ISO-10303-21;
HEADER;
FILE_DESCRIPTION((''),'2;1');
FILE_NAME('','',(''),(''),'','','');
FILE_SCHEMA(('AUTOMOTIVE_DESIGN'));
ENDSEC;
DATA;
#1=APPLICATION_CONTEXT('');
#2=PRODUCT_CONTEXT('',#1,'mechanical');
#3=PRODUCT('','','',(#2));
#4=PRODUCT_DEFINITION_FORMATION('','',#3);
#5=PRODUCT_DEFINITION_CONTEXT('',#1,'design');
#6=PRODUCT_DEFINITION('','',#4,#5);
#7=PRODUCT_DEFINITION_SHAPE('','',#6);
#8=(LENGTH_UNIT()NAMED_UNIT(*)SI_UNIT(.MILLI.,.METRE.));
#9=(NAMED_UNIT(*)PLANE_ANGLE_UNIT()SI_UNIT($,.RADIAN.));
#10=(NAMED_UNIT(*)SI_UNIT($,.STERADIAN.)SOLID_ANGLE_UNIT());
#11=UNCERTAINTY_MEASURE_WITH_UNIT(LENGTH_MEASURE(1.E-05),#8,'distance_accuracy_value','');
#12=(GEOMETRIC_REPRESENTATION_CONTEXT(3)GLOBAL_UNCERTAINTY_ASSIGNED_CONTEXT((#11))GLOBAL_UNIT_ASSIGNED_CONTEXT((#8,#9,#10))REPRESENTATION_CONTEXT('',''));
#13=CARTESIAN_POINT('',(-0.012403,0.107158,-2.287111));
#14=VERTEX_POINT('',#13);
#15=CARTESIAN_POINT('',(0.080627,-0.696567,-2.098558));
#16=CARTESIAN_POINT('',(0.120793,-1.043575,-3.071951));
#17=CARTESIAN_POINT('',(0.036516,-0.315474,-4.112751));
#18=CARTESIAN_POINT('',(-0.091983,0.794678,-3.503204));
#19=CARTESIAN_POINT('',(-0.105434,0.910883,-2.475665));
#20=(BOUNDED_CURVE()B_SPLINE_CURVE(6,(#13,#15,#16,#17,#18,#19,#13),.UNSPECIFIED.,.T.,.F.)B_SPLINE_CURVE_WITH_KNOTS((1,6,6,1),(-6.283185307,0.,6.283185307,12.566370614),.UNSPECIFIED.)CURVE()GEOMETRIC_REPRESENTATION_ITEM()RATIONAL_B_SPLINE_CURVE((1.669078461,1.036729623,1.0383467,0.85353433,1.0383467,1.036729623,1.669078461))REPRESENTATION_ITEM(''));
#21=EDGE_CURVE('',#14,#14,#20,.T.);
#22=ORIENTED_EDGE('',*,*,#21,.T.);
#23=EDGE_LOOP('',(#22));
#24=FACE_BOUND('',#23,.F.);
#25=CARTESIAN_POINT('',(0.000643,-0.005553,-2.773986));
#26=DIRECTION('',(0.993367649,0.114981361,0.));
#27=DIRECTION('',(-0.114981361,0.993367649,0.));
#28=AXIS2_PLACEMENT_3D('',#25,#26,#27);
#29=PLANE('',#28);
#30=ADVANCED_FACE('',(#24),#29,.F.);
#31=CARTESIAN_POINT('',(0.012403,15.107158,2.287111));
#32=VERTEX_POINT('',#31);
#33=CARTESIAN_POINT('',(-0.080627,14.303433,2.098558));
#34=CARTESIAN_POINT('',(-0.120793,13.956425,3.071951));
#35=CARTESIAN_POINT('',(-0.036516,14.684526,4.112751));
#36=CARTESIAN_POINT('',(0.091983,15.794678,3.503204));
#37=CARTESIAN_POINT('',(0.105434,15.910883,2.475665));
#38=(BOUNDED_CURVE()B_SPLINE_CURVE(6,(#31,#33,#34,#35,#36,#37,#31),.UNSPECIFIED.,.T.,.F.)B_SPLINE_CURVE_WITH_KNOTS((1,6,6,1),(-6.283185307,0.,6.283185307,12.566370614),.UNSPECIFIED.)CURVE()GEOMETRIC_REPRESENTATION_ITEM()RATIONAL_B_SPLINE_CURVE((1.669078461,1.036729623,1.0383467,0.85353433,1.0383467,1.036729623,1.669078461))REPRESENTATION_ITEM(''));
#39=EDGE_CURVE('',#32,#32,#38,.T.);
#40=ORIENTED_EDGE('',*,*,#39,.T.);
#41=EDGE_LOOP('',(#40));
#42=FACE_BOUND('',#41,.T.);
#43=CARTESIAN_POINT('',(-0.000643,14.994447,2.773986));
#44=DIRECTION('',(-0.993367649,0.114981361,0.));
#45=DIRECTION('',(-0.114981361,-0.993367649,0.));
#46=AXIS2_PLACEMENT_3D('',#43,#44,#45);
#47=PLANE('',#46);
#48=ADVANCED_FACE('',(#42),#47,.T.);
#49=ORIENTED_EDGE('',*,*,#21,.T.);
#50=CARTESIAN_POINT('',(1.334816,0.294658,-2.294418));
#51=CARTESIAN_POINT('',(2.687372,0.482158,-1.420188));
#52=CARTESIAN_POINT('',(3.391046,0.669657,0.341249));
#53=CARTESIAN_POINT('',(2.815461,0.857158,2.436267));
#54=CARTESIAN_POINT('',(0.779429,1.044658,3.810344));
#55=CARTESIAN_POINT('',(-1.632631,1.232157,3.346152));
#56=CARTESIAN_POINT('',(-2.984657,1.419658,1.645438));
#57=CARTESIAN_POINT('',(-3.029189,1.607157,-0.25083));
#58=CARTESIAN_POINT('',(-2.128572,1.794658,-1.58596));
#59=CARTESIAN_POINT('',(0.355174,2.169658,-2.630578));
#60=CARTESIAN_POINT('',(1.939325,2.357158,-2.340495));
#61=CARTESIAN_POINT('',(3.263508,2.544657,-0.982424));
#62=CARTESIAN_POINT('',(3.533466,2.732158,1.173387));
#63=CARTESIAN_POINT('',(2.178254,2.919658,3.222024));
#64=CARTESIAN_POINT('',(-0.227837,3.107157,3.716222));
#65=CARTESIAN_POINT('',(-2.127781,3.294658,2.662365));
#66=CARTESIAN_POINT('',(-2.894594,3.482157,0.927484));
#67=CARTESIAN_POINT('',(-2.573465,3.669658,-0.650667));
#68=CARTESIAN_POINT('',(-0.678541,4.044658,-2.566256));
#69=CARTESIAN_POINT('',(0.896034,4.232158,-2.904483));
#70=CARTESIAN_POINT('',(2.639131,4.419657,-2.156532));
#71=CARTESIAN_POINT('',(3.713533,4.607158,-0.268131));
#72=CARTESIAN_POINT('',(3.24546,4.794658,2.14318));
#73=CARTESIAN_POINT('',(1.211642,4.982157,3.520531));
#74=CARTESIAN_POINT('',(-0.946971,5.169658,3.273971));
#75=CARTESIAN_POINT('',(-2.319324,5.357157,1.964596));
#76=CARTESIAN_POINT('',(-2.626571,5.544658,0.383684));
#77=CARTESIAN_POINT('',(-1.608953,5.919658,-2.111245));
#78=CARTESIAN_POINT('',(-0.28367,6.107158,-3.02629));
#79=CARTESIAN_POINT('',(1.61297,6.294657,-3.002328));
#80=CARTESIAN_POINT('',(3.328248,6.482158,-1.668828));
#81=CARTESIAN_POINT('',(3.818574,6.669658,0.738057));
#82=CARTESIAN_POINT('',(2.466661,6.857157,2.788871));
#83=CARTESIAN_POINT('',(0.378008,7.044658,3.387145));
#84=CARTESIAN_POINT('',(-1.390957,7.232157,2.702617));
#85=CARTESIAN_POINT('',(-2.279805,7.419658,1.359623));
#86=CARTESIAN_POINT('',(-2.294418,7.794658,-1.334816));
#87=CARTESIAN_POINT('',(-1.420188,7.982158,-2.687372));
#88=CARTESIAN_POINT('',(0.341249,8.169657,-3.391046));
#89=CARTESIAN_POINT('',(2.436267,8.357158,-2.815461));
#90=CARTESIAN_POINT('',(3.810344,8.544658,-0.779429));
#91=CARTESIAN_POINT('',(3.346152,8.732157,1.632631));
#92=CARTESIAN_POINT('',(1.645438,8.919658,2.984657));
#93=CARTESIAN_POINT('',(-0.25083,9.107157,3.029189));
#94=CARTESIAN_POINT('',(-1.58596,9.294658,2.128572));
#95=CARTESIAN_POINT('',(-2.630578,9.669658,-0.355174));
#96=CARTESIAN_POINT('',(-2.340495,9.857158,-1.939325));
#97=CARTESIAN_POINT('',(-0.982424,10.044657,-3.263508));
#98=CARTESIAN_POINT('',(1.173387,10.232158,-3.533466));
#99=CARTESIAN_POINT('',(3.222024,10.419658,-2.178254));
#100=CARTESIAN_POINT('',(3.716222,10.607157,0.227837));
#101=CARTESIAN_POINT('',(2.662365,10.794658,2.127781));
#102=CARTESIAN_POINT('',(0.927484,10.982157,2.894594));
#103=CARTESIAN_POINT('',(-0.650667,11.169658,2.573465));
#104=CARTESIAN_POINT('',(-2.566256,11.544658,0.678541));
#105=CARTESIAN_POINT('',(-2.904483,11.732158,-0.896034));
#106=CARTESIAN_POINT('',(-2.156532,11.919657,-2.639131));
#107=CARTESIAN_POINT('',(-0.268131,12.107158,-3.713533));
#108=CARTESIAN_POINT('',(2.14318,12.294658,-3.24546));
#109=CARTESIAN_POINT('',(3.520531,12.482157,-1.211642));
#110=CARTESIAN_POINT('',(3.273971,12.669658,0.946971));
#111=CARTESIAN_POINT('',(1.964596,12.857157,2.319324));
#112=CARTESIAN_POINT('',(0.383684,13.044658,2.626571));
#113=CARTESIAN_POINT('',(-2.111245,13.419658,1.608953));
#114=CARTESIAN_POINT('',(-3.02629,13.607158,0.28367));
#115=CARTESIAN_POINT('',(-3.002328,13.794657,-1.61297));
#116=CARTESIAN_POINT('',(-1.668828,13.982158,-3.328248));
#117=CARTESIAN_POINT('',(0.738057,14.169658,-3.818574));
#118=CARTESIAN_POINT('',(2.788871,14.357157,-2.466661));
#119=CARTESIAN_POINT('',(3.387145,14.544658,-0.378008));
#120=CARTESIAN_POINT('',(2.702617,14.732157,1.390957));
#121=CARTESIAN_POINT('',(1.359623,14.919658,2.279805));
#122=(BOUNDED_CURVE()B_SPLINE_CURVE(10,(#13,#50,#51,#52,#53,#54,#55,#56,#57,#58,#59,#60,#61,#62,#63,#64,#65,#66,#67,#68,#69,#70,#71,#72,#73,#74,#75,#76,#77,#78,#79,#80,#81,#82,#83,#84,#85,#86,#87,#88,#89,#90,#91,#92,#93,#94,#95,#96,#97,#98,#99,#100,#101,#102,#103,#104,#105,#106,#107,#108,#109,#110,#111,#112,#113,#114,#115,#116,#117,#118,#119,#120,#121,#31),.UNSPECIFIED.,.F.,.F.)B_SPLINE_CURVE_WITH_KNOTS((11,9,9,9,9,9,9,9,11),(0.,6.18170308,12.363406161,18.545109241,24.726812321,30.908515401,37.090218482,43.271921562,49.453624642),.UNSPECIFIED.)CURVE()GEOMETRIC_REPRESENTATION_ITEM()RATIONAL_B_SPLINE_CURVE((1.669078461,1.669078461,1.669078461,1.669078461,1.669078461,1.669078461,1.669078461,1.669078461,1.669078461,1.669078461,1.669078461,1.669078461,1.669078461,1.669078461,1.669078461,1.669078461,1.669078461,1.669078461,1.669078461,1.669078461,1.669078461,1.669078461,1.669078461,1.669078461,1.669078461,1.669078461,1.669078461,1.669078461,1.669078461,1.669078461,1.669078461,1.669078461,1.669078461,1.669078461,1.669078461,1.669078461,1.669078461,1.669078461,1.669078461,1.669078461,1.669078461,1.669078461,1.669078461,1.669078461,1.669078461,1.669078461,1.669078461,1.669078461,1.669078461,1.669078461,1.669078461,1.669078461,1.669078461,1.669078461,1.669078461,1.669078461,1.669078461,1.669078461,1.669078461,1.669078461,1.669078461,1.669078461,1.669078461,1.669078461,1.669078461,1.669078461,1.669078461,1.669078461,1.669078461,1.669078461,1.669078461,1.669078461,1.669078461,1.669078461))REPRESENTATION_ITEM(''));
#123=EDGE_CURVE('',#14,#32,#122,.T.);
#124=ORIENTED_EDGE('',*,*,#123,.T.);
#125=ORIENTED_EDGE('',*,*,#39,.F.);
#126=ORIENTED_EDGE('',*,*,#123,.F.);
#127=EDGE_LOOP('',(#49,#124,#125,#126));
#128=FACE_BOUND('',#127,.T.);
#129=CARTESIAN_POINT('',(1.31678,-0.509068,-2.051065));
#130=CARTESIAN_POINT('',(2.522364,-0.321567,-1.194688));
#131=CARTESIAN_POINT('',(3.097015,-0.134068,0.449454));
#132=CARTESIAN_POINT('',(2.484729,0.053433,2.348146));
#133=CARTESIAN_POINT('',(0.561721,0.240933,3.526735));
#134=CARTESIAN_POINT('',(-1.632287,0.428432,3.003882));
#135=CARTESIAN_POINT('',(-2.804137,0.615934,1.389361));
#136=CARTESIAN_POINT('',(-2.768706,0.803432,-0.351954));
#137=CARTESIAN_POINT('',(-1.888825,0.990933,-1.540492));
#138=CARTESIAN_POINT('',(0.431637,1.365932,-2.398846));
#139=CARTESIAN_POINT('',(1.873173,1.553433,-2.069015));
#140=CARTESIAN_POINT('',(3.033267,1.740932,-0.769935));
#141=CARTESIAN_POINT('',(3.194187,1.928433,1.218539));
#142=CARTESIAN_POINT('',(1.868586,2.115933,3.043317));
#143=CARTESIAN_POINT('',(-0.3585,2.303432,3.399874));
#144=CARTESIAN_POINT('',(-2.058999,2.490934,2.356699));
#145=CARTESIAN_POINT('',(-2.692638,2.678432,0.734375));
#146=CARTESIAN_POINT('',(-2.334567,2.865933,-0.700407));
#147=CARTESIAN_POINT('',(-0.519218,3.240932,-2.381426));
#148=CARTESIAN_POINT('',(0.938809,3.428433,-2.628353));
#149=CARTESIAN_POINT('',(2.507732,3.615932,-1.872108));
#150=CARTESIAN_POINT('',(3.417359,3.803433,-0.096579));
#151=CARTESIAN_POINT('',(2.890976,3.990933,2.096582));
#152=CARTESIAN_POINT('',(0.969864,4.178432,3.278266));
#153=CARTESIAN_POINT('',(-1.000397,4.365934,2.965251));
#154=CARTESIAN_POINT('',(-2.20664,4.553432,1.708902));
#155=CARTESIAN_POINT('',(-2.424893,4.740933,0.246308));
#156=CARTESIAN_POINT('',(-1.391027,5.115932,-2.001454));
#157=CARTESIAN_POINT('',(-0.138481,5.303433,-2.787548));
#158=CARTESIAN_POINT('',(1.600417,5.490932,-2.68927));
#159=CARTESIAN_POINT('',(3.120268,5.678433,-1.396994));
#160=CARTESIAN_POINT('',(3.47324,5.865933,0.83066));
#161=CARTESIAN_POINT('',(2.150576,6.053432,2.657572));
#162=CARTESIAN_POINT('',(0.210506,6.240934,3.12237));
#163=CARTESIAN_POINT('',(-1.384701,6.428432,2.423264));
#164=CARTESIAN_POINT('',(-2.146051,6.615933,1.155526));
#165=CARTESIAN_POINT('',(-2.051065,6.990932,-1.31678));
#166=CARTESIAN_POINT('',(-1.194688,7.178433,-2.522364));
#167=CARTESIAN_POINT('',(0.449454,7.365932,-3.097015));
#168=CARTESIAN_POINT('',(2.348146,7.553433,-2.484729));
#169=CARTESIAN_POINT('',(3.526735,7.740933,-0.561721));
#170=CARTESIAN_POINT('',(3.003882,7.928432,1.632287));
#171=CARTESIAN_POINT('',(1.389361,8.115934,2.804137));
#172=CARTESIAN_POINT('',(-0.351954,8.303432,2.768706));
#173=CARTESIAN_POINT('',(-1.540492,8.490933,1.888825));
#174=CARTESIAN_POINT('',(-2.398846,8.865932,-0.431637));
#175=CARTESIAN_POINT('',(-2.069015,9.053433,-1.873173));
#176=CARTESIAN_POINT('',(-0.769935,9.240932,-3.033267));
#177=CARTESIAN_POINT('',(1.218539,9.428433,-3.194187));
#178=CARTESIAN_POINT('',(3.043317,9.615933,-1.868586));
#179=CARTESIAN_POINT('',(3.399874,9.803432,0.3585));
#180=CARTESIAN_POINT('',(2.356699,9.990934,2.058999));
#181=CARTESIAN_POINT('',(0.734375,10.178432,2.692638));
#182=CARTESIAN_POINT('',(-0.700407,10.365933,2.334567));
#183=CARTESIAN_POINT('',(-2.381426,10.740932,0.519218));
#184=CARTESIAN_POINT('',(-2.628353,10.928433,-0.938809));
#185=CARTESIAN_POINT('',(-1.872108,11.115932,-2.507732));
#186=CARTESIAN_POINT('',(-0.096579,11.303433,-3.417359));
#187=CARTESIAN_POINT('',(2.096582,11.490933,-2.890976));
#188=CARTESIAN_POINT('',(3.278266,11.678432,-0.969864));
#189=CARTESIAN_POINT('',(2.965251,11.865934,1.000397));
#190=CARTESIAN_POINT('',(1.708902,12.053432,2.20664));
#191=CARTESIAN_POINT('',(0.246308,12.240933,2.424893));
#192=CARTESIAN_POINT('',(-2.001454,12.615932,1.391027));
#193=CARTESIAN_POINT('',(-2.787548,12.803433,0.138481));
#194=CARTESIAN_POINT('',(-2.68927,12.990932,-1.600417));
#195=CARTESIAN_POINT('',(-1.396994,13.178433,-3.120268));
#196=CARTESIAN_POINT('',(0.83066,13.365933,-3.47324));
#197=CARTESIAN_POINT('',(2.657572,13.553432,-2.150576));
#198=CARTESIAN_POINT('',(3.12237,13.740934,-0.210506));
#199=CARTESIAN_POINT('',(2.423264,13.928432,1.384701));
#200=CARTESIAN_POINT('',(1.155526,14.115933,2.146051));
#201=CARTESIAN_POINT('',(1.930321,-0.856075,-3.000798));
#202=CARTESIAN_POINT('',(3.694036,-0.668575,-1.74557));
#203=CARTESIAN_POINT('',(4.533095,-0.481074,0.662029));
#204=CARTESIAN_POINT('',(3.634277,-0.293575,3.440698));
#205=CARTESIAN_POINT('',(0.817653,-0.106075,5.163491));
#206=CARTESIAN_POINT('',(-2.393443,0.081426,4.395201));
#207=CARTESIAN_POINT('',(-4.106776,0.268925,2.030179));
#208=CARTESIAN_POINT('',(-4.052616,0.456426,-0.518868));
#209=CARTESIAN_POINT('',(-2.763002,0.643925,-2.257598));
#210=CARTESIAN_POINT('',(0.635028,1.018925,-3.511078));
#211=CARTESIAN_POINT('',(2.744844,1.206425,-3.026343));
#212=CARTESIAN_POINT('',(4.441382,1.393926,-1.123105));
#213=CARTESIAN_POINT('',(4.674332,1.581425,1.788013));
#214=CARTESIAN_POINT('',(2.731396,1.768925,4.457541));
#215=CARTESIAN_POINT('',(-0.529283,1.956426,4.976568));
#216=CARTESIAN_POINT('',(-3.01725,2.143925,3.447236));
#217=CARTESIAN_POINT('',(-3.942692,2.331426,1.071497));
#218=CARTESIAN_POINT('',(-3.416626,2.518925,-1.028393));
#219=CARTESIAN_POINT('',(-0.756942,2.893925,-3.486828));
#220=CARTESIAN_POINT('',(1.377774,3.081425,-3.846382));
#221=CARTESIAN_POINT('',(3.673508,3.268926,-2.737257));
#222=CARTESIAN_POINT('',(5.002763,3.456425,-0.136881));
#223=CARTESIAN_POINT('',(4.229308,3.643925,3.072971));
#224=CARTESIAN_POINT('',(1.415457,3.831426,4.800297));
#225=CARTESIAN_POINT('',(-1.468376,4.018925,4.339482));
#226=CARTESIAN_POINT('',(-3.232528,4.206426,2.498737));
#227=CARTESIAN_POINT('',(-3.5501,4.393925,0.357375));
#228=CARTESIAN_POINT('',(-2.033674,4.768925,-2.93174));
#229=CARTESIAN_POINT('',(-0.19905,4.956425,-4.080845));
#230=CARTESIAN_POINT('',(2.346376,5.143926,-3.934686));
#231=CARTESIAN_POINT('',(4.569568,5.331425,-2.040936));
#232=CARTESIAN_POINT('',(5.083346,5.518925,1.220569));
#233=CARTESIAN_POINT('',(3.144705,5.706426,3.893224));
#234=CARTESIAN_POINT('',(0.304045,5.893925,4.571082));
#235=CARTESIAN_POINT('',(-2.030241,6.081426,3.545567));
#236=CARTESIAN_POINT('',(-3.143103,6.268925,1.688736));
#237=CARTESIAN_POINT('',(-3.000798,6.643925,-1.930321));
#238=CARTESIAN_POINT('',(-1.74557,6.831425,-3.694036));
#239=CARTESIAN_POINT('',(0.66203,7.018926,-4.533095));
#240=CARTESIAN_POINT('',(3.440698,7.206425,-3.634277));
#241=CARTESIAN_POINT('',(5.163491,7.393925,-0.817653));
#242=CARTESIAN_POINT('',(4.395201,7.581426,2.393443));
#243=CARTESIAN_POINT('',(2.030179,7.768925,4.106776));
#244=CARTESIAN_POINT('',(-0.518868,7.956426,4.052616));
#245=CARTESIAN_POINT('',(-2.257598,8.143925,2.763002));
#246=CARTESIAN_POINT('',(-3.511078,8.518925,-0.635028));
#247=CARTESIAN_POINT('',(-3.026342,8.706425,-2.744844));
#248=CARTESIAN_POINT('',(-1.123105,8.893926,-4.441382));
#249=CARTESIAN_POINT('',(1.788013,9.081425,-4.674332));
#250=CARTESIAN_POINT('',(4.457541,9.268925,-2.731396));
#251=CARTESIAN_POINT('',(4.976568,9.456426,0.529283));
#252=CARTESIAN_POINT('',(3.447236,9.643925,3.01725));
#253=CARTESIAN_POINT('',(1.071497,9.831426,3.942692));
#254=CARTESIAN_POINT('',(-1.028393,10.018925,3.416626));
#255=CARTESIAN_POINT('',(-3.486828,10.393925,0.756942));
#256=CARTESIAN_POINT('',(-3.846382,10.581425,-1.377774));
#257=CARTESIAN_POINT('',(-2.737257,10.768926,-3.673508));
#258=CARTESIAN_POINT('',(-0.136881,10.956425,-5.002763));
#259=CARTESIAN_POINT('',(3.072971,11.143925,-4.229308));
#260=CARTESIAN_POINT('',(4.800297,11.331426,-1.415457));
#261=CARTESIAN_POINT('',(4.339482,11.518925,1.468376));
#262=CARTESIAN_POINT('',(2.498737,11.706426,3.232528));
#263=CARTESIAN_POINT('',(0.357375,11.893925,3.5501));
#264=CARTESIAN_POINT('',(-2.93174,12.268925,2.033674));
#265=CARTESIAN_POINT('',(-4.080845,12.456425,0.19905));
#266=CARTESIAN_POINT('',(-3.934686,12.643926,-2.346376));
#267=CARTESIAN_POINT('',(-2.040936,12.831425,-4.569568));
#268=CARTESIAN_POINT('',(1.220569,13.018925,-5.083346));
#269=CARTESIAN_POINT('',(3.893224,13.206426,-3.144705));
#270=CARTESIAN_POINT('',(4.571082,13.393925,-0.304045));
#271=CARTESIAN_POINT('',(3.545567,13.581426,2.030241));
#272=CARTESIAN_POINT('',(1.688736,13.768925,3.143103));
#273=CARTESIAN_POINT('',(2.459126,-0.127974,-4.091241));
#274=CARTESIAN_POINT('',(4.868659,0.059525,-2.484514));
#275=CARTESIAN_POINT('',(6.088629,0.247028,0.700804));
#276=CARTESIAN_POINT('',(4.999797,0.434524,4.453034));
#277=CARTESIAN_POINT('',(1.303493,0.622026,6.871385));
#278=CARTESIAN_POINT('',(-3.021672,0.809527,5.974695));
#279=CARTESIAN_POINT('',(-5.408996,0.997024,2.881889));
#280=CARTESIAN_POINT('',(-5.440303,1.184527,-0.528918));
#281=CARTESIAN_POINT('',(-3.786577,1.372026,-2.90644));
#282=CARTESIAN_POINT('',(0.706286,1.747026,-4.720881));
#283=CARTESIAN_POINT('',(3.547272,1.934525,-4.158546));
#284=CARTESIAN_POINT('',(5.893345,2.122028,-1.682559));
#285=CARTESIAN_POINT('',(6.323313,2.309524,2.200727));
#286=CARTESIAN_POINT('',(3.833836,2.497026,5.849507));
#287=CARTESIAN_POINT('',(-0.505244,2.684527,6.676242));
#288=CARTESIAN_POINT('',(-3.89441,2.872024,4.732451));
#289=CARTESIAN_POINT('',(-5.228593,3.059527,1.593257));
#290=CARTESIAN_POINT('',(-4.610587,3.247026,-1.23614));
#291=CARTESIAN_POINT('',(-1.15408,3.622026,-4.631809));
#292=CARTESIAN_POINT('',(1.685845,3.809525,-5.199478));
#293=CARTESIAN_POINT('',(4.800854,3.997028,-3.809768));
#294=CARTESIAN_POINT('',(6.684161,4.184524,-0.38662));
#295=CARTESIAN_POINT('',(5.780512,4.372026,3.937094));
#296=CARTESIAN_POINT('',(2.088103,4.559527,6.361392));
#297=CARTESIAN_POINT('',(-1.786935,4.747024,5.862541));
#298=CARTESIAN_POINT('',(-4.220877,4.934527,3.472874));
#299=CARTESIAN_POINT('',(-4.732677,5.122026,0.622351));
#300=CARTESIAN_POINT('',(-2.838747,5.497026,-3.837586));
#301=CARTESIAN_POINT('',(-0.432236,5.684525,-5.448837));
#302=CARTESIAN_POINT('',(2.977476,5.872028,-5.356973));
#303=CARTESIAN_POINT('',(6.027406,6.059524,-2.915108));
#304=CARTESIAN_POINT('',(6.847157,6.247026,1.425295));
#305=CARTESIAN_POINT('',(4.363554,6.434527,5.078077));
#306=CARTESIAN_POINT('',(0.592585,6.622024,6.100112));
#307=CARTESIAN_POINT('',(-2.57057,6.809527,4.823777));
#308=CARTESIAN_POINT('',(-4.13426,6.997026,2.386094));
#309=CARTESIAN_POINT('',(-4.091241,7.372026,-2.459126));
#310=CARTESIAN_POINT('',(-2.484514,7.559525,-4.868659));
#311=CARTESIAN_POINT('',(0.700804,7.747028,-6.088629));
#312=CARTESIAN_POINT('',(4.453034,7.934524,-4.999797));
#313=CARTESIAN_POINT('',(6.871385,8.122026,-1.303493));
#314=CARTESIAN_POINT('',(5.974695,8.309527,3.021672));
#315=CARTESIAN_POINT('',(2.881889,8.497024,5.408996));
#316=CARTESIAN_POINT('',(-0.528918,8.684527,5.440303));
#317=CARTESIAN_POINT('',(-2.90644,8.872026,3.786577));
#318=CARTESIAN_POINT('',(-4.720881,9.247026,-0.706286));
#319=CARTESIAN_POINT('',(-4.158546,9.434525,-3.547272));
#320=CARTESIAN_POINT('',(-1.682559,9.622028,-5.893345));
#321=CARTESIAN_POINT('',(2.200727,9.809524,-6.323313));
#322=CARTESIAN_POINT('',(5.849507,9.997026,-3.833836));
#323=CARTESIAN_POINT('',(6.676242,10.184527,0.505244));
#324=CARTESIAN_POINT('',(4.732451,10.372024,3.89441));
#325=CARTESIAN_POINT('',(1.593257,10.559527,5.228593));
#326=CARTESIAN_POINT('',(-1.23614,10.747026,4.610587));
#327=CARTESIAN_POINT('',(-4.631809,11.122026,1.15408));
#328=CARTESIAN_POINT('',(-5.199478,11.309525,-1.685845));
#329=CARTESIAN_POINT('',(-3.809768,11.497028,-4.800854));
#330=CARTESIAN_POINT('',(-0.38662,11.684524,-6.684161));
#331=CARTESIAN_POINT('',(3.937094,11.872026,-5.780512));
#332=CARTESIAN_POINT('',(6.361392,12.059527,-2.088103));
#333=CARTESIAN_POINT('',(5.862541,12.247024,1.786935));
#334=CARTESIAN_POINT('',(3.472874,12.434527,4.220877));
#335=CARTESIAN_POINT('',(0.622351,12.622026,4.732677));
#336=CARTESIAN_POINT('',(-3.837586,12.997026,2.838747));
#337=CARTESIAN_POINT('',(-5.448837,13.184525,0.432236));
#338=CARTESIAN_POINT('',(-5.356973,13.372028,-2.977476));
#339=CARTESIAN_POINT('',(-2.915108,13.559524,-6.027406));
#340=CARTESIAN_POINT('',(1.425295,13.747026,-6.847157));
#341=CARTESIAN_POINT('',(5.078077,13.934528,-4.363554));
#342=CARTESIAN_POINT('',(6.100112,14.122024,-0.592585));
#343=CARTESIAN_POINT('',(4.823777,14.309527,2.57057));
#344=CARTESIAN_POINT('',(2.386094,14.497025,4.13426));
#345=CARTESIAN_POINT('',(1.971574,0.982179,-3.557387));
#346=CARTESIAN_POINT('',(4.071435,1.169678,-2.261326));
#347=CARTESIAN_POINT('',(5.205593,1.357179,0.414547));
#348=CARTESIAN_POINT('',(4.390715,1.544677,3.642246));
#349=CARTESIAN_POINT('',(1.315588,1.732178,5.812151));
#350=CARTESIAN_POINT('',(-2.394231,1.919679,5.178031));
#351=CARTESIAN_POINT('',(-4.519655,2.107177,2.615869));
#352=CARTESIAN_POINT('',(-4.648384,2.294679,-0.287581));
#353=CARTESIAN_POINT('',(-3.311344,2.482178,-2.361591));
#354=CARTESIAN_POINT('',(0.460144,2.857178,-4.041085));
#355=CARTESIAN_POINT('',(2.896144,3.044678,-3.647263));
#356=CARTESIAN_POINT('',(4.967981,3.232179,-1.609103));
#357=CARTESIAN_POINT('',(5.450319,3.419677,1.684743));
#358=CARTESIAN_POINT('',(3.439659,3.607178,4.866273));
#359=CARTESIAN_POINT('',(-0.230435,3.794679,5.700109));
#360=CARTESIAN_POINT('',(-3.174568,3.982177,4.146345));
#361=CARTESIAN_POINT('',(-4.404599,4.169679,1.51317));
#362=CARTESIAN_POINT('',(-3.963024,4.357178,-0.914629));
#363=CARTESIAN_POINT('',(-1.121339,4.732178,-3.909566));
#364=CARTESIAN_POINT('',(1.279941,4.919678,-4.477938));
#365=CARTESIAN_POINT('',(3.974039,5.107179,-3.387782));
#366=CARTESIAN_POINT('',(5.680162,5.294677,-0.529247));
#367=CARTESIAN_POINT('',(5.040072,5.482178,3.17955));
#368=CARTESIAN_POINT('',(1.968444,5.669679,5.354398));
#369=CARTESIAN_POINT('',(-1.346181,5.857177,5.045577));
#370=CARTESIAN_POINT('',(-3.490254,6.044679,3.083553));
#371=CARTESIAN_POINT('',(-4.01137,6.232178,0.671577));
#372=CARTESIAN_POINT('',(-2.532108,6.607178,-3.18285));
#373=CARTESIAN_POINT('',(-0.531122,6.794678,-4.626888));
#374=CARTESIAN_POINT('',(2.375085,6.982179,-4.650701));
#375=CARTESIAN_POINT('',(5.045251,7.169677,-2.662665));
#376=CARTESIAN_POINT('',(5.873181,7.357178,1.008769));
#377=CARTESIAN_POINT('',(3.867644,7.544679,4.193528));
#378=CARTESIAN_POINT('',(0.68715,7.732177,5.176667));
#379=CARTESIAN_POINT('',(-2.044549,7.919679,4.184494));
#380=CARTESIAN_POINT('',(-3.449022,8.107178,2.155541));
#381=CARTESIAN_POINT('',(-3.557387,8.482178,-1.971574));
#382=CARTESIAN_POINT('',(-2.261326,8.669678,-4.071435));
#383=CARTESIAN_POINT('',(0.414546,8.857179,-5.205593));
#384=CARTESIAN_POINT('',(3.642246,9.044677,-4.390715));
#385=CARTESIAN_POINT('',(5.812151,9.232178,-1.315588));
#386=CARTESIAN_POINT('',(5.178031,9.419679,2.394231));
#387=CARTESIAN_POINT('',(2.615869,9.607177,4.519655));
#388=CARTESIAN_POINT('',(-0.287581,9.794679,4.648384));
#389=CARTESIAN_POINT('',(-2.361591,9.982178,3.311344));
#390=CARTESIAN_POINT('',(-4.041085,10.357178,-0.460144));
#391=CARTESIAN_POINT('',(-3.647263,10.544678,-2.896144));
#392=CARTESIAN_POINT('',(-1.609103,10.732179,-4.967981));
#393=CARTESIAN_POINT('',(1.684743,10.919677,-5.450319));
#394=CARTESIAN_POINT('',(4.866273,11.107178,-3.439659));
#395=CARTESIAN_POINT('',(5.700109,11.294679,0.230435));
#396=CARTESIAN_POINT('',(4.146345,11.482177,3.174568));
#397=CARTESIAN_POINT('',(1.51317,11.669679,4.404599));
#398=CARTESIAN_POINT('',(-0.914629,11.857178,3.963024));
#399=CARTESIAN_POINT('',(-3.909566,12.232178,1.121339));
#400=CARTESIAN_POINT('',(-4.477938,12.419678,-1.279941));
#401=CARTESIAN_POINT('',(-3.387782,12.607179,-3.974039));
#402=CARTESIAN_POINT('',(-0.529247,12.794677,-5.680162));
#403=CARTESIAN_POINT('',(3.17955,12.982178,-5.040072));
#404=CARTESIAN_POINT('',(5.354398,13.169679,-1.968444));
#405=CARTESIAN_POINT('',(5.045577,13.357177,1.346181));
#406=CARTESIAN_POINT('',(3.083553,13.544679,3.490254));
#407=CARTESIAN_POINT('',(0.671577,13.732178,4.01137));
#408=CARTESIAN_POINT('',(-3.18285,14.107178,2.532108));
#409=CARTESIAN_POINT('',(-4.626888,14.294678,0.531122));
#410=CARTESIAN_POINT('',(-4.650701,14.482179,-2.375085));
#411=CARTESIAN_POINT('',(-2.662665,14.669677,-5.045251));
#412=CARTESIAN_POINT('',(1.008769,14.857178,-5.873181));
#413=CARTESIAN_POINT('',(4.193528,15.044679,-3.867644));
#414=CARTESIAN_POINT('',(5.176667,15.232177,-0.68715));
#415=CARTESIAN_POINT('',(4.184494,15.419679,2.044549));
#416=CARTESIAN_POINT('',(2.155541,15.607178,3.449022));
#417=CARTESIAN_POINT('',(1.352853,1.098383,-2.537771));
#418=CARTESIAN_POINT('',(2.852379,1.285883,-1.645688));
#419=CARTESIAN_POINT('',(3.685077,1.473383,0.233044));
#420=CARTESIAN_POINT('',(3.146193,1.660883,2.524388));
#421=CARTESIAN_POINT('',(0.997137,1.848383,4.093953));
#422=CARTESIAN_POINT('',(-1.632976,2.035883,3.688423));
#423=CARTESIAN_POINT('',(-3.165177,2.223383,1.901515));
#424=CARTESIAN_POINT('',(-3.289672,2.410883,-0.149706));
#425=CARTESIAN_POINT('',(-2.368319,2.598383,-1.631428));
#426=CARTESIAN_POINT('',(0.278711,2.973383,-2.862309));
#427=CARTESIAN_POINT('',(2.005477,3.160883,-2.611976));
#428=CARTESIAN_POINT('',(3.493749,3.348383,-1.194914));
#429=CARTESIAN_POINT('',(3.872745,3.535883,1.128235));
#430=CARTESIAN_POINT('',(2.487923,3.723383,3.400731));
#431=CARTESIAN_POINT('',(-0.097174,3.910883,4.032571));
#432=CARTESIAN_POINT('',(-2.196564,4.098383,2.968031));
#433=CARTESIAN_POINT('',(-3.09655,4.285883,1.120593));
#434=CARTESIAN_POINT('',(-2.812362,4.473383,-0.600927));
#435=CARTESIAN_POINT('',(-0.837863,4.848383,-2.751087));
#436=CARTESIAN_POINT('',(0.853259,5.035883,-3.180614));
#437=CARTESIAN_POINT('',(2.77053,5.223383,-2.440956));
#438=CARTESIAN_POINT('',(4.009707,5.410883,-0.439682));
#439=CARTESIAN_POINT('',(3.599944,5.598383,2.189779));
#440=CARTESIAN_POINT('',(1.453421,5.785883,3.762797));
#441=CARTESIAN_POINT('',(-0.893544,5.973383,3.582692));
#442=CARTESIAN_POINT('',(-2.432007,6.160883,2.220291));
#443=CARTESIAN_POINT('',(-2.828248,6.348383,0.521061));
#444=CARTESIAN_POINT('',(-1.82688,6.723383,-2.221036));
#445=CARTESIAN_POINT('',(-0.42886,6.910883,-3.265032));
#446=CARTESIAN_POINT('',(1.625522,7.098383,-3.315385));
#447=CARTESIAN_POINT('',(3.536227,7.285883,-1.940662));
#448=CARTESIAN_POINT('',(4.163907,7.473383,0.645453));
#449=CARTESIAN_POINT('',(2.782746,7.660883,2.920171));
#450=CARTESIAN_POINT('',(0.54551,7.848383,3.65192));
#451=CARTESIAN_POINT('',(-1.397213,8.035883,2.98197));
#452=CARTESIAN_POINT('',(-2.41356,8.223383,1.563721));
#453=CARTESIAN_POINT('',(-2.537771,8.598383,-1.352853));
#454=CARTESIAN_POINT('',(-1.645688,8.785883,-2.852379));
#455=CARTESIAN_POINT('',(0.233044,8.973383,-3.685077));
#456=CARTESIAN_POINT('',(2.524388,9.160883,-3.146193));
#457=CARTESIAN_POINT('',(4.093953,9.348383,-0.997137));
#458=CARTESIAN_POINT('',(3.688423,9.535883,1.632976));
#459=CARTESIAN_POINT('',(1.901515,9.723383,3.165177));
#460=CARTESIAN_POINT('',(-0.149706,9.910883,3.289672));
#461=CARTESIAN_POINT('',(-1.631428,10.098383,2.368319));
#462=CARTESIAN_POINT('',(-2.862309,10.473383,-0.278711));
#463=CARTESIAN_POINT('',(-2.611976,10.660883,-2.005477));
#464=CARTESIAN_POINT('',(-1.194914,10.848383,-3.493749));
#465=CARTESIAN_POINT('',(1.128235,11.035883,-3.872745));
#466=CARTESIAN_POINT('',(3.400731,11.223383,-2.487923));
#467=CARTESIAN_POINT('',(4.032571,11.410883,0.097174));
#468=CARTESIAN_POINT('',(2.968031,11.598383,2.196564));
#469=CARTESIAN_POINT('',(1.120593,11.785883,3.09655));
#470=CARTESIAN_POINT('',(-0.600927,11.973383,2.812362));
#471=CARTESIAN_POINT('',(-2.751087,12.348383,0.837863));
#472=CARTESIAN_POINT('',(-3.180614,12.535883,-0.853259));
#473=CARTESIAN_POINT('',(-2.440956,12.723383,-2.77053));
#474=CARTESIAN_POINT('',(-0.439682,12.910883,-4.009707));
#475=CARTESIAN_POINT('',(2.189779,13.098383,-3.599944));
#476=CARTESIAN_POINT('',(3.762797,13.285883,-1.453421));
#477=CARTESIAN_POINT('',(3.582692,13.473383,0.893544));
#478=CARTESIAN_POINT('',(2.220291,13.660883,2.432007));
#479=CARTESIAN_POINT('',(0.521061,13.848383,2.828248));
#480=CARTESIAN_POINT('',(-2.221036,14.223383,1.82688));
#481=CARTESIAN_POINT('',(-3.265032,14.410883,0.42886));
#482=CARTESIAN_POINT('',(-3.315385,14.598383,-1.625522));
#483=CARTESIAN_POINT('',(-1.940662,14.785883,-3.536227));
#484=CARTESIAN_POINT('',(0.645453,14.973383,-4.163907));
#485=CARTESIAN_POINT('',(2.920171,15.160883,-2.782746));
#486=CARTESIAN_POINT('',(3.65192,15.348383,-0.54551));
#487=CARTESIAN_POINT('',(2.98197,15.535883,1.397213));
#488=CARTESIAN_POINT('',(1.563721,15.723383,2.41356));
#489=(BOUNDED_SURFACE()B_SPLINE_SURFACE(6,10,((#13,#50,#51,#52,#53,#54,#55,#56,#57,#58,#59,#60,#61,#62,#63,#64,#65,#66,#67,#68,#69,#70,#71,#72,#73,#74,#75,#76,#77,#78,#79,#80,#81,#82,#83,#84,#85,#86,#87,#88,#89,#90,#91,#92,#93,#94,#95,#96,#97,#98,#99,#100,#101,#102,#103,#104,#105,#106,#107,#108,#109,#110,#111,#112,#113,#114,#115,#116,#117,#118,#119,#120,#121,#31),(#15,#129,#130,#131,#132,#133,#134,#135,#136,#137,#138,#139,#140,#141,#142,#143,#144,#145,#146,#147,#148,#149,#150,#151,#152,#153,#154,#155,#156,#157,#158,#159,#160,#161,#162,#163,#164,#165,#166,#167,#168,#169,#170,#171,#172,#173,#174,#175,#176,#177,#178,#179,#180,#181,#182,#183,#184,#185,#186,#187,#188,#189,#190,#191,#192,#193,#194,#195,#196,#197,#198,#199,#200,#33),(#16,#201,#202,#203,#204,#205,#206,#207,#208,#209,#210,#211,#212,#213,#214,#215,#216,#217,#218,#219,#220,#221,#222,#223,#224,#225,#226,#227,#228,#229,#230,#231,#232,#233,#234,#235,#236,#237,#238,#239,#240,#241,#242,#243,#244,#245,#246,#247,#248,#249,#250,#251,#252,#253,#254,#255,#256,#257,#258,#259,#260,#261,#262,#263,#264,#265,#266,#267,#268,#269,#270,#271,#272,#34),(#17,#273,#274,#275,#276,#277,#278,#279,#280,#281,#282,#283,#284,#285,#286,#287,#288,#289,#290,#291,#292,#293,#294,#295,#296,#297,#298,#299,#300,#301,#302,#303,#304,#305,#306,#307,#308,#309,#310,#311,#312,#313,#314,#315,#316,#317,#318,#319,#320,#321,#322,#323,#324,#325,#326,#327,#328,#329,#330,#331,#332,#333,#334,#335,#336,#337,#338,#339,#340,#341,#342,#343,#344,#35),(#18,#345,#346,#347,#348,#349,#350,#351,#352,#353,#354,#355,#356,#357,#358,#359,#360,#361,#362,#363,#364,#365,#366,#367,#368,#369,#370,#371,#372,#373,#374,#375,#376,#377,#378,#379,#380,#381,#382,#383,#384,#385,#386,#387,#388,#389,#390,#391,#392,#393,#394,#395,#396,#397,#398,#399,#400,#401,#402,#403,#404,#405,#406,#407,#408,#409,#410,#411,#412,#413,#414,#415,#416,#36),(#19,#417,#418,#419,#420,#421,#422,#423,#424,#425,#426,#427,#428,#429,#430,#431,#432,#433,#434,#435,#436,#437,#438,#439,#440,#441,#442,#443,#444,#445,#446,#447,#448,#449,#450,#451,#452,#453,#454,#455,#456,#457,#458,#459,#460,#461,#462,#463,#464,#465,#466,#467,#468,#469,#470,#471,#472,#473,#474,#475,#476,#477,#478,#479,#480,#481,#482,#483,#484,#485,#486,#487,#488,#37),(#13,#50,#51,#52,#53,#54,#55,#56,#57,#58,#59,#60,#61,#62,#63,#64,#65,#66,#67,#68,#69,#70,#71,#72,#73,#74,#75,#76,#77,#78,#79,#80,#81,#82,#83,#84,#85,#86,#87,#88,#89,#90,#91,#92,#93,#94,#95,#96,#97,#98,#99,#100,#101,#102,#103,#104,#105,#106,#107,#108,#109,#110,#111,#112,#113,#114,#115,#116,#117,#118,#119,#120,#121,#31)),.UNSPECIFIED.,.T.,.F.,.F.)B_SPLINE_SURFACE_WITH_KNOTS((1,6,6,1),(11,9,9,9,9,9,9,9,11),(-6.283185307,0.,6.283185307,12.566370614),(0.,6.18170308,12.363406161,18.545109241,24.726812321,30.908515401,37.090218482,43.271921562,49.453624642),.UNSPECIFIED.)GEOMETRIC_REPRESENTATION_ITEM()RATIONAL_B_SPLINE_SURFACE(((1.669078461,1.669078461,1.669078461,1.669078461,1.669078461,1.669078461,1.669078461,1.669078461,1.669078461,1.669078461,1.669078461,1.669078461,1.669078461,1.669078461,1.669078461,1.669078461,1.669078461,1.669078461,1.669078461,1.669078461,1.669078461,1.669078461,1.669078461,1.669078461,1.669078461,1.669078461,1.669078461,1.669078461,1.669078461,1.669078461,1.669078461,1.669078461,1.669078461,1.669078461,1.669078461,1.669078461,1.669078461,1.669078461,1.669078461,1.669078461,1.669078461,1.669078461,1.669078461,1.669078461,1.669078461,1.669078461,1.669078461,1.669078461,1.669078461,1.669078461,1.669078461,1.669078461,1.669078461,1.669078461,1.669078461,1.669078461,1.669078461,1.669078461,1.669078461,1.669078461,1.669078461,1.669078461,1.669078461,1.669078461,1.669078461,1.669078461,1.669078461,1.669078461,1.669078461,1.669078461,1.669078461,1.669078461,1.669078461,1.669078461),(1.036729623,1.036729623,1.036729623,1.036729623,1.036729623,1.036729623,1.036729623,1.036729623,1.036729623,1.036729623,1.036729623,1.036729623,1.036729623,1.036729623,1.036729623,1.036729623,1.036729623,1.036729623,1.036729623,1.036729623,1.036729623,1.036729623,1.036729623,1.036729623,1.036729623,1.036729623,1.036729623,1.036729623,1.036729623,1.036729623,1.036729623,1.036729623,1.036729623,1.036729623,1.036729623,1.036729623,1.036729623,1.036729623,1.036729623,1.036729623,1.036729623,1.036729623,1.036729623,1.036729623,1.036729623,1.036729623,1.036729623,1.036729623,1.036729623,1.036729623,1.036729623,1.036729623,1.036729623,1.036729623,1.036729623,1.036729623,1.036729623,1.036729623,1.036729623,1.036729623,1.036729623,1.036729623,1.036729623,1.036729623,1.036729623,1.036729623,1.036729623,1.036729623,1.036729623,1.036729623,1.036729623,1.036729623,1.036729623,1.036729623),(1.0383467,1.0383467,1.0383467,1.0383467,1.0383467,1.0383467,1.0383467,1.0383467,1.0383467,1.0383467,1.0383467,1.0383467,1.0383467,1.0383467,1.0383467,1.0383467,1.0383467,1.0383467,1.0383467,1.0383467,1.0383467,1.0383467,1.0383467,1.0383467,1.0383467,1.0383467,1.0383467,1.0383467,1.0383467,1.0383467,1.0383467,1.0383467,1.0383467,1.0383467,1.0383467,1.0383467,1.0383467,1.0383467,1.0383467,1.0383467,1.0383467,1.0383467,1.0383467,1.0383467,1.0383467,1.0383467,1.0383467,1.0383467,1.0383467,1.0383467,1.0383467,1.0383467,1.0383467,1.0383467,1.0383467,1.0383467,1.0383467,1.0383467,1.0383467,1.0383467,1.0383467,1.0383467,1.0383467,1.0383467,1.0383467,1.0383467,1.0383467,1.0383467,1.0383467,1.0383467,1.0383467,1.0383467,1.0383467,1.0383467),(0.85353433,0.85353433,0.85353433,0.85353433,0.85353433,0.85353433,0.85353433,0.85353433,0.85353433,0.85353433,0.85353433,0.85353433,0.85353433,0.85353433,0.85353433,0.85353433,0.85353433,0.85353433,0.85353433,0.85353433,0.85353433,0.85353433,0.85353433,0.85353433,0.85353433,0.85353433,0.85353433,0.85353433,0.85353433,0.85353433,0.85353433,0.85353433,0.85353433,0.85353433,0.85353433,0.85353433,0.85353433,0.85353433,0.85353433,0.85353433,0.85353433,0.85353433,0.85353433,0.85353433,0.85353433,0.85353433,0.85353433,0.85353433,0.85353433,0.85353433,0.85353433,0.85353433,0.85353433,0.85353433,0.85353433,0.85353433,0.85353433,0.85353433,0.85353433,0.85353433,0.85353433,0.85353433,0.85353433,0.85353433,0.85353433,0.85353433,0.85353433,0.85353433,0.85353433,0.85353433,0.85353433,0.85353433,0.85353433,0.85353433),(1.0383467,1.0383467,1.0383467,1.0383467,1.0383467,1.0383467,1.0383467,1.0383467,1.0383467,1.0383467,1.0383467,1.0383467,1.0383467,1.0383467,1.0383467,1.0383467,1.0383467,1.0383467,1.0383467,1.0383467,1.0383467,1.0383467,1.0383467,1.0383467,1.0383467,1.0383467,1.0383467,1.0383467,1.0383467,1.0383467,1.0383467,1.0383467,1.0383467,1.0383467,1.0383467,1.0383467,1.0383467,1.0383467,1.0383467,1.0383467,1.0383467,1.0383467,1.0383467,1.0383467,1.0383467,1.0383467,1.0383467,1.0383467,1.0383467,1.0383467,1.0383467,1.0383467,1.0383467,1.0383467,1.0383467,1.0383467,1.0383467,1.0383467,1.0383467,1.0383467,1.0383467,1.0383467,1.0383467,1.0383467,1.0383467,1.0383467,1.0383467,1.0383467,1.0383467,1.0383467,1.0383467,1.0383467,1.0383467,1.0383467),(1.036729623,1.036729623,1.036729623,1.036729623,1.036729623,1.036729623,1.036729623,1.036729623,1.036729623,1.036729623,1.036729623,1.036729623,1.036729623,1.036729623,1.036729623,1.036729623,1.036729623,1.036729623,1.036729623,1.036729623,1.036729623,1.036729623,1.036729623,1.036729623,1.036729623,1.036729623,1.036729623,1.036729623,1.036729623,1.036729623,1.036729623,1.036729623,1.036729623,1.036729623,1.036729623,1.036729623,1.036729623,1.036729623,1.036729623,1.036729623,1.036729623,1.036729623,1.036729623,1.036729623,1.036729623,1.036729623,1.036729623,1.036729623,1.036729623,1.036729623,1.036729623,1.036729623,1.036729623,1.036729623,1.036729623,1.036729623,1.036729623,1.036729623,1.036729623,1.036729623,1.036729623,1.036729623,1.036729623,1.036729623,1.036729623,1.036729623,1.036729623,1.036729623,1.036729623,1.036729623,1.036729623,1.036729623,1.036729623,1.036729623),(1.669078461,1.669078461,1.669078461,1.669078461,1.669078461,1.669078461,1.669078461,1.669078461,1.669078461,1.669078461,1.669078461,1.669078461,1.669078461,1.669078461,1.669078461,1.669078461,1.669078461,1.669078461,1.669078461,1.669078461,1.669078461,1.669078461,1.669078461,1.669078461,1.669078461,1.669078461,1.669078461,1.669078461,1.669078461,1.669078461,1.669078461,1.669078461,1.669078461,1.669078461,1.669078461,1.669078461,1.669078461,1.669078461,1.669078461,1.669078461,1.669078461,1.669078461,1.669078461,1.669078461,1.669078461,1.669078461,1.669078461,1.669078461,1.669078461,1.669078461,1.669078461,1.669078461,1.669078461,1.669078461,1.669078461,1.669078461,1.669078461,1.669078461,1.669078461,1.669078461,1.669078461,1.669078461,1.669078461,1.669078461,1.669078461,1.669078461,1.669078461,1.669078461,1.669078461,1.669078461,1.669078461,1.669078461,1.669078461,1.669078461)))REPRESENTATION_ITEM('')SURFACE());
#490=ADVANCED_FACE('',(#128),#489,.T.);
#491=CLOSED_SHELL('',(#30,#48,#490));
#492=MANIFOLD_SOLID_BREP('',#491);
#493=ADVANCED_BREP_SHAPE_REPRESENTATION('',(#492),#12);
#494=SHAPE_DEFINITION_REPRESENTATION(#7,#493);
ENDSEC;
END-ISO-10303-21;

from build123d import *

# Parameters (mm, degrees)
SWEEP1_PITCH       = 2
SWEEP1_HEIGHT      = 15
SWEEP1_RADIUS      = 2.75
SWEEP1_START_ANGLE = -180
SKETCH4_R          = 0.5


with BuildPart() as part:
    # Sweep1: sweep along a helix
    with BuildLine() as sweep1_path:
        add(Helix(SWEEP1_PITCH, SWEEP1_HEIGHT, SWEEP1_RADIUS, center=(0, 0, 0), direction=(0, 1, 0), lefthand=True, mode=Mode.PRIVATE).rotate(Axis((0, 0, 0), (0, 1, 0)), SWEEP1_START_ANGLE))
    # Sketch4 → Sweep1 (sweep)
    with BuildSketch(Plane(origin=(0, 0, -2.75), x_dir=(-0.026096414, 0.225456829, 0.973903586), z_dir=(0.993367649, 0.114981361, 0))):
        with Locations((-0.024708037, 0)):
            Circle(SKETCH4_R)
    sweep(path=sweep1_path.line, is_frenet=True)


solid = part.part
